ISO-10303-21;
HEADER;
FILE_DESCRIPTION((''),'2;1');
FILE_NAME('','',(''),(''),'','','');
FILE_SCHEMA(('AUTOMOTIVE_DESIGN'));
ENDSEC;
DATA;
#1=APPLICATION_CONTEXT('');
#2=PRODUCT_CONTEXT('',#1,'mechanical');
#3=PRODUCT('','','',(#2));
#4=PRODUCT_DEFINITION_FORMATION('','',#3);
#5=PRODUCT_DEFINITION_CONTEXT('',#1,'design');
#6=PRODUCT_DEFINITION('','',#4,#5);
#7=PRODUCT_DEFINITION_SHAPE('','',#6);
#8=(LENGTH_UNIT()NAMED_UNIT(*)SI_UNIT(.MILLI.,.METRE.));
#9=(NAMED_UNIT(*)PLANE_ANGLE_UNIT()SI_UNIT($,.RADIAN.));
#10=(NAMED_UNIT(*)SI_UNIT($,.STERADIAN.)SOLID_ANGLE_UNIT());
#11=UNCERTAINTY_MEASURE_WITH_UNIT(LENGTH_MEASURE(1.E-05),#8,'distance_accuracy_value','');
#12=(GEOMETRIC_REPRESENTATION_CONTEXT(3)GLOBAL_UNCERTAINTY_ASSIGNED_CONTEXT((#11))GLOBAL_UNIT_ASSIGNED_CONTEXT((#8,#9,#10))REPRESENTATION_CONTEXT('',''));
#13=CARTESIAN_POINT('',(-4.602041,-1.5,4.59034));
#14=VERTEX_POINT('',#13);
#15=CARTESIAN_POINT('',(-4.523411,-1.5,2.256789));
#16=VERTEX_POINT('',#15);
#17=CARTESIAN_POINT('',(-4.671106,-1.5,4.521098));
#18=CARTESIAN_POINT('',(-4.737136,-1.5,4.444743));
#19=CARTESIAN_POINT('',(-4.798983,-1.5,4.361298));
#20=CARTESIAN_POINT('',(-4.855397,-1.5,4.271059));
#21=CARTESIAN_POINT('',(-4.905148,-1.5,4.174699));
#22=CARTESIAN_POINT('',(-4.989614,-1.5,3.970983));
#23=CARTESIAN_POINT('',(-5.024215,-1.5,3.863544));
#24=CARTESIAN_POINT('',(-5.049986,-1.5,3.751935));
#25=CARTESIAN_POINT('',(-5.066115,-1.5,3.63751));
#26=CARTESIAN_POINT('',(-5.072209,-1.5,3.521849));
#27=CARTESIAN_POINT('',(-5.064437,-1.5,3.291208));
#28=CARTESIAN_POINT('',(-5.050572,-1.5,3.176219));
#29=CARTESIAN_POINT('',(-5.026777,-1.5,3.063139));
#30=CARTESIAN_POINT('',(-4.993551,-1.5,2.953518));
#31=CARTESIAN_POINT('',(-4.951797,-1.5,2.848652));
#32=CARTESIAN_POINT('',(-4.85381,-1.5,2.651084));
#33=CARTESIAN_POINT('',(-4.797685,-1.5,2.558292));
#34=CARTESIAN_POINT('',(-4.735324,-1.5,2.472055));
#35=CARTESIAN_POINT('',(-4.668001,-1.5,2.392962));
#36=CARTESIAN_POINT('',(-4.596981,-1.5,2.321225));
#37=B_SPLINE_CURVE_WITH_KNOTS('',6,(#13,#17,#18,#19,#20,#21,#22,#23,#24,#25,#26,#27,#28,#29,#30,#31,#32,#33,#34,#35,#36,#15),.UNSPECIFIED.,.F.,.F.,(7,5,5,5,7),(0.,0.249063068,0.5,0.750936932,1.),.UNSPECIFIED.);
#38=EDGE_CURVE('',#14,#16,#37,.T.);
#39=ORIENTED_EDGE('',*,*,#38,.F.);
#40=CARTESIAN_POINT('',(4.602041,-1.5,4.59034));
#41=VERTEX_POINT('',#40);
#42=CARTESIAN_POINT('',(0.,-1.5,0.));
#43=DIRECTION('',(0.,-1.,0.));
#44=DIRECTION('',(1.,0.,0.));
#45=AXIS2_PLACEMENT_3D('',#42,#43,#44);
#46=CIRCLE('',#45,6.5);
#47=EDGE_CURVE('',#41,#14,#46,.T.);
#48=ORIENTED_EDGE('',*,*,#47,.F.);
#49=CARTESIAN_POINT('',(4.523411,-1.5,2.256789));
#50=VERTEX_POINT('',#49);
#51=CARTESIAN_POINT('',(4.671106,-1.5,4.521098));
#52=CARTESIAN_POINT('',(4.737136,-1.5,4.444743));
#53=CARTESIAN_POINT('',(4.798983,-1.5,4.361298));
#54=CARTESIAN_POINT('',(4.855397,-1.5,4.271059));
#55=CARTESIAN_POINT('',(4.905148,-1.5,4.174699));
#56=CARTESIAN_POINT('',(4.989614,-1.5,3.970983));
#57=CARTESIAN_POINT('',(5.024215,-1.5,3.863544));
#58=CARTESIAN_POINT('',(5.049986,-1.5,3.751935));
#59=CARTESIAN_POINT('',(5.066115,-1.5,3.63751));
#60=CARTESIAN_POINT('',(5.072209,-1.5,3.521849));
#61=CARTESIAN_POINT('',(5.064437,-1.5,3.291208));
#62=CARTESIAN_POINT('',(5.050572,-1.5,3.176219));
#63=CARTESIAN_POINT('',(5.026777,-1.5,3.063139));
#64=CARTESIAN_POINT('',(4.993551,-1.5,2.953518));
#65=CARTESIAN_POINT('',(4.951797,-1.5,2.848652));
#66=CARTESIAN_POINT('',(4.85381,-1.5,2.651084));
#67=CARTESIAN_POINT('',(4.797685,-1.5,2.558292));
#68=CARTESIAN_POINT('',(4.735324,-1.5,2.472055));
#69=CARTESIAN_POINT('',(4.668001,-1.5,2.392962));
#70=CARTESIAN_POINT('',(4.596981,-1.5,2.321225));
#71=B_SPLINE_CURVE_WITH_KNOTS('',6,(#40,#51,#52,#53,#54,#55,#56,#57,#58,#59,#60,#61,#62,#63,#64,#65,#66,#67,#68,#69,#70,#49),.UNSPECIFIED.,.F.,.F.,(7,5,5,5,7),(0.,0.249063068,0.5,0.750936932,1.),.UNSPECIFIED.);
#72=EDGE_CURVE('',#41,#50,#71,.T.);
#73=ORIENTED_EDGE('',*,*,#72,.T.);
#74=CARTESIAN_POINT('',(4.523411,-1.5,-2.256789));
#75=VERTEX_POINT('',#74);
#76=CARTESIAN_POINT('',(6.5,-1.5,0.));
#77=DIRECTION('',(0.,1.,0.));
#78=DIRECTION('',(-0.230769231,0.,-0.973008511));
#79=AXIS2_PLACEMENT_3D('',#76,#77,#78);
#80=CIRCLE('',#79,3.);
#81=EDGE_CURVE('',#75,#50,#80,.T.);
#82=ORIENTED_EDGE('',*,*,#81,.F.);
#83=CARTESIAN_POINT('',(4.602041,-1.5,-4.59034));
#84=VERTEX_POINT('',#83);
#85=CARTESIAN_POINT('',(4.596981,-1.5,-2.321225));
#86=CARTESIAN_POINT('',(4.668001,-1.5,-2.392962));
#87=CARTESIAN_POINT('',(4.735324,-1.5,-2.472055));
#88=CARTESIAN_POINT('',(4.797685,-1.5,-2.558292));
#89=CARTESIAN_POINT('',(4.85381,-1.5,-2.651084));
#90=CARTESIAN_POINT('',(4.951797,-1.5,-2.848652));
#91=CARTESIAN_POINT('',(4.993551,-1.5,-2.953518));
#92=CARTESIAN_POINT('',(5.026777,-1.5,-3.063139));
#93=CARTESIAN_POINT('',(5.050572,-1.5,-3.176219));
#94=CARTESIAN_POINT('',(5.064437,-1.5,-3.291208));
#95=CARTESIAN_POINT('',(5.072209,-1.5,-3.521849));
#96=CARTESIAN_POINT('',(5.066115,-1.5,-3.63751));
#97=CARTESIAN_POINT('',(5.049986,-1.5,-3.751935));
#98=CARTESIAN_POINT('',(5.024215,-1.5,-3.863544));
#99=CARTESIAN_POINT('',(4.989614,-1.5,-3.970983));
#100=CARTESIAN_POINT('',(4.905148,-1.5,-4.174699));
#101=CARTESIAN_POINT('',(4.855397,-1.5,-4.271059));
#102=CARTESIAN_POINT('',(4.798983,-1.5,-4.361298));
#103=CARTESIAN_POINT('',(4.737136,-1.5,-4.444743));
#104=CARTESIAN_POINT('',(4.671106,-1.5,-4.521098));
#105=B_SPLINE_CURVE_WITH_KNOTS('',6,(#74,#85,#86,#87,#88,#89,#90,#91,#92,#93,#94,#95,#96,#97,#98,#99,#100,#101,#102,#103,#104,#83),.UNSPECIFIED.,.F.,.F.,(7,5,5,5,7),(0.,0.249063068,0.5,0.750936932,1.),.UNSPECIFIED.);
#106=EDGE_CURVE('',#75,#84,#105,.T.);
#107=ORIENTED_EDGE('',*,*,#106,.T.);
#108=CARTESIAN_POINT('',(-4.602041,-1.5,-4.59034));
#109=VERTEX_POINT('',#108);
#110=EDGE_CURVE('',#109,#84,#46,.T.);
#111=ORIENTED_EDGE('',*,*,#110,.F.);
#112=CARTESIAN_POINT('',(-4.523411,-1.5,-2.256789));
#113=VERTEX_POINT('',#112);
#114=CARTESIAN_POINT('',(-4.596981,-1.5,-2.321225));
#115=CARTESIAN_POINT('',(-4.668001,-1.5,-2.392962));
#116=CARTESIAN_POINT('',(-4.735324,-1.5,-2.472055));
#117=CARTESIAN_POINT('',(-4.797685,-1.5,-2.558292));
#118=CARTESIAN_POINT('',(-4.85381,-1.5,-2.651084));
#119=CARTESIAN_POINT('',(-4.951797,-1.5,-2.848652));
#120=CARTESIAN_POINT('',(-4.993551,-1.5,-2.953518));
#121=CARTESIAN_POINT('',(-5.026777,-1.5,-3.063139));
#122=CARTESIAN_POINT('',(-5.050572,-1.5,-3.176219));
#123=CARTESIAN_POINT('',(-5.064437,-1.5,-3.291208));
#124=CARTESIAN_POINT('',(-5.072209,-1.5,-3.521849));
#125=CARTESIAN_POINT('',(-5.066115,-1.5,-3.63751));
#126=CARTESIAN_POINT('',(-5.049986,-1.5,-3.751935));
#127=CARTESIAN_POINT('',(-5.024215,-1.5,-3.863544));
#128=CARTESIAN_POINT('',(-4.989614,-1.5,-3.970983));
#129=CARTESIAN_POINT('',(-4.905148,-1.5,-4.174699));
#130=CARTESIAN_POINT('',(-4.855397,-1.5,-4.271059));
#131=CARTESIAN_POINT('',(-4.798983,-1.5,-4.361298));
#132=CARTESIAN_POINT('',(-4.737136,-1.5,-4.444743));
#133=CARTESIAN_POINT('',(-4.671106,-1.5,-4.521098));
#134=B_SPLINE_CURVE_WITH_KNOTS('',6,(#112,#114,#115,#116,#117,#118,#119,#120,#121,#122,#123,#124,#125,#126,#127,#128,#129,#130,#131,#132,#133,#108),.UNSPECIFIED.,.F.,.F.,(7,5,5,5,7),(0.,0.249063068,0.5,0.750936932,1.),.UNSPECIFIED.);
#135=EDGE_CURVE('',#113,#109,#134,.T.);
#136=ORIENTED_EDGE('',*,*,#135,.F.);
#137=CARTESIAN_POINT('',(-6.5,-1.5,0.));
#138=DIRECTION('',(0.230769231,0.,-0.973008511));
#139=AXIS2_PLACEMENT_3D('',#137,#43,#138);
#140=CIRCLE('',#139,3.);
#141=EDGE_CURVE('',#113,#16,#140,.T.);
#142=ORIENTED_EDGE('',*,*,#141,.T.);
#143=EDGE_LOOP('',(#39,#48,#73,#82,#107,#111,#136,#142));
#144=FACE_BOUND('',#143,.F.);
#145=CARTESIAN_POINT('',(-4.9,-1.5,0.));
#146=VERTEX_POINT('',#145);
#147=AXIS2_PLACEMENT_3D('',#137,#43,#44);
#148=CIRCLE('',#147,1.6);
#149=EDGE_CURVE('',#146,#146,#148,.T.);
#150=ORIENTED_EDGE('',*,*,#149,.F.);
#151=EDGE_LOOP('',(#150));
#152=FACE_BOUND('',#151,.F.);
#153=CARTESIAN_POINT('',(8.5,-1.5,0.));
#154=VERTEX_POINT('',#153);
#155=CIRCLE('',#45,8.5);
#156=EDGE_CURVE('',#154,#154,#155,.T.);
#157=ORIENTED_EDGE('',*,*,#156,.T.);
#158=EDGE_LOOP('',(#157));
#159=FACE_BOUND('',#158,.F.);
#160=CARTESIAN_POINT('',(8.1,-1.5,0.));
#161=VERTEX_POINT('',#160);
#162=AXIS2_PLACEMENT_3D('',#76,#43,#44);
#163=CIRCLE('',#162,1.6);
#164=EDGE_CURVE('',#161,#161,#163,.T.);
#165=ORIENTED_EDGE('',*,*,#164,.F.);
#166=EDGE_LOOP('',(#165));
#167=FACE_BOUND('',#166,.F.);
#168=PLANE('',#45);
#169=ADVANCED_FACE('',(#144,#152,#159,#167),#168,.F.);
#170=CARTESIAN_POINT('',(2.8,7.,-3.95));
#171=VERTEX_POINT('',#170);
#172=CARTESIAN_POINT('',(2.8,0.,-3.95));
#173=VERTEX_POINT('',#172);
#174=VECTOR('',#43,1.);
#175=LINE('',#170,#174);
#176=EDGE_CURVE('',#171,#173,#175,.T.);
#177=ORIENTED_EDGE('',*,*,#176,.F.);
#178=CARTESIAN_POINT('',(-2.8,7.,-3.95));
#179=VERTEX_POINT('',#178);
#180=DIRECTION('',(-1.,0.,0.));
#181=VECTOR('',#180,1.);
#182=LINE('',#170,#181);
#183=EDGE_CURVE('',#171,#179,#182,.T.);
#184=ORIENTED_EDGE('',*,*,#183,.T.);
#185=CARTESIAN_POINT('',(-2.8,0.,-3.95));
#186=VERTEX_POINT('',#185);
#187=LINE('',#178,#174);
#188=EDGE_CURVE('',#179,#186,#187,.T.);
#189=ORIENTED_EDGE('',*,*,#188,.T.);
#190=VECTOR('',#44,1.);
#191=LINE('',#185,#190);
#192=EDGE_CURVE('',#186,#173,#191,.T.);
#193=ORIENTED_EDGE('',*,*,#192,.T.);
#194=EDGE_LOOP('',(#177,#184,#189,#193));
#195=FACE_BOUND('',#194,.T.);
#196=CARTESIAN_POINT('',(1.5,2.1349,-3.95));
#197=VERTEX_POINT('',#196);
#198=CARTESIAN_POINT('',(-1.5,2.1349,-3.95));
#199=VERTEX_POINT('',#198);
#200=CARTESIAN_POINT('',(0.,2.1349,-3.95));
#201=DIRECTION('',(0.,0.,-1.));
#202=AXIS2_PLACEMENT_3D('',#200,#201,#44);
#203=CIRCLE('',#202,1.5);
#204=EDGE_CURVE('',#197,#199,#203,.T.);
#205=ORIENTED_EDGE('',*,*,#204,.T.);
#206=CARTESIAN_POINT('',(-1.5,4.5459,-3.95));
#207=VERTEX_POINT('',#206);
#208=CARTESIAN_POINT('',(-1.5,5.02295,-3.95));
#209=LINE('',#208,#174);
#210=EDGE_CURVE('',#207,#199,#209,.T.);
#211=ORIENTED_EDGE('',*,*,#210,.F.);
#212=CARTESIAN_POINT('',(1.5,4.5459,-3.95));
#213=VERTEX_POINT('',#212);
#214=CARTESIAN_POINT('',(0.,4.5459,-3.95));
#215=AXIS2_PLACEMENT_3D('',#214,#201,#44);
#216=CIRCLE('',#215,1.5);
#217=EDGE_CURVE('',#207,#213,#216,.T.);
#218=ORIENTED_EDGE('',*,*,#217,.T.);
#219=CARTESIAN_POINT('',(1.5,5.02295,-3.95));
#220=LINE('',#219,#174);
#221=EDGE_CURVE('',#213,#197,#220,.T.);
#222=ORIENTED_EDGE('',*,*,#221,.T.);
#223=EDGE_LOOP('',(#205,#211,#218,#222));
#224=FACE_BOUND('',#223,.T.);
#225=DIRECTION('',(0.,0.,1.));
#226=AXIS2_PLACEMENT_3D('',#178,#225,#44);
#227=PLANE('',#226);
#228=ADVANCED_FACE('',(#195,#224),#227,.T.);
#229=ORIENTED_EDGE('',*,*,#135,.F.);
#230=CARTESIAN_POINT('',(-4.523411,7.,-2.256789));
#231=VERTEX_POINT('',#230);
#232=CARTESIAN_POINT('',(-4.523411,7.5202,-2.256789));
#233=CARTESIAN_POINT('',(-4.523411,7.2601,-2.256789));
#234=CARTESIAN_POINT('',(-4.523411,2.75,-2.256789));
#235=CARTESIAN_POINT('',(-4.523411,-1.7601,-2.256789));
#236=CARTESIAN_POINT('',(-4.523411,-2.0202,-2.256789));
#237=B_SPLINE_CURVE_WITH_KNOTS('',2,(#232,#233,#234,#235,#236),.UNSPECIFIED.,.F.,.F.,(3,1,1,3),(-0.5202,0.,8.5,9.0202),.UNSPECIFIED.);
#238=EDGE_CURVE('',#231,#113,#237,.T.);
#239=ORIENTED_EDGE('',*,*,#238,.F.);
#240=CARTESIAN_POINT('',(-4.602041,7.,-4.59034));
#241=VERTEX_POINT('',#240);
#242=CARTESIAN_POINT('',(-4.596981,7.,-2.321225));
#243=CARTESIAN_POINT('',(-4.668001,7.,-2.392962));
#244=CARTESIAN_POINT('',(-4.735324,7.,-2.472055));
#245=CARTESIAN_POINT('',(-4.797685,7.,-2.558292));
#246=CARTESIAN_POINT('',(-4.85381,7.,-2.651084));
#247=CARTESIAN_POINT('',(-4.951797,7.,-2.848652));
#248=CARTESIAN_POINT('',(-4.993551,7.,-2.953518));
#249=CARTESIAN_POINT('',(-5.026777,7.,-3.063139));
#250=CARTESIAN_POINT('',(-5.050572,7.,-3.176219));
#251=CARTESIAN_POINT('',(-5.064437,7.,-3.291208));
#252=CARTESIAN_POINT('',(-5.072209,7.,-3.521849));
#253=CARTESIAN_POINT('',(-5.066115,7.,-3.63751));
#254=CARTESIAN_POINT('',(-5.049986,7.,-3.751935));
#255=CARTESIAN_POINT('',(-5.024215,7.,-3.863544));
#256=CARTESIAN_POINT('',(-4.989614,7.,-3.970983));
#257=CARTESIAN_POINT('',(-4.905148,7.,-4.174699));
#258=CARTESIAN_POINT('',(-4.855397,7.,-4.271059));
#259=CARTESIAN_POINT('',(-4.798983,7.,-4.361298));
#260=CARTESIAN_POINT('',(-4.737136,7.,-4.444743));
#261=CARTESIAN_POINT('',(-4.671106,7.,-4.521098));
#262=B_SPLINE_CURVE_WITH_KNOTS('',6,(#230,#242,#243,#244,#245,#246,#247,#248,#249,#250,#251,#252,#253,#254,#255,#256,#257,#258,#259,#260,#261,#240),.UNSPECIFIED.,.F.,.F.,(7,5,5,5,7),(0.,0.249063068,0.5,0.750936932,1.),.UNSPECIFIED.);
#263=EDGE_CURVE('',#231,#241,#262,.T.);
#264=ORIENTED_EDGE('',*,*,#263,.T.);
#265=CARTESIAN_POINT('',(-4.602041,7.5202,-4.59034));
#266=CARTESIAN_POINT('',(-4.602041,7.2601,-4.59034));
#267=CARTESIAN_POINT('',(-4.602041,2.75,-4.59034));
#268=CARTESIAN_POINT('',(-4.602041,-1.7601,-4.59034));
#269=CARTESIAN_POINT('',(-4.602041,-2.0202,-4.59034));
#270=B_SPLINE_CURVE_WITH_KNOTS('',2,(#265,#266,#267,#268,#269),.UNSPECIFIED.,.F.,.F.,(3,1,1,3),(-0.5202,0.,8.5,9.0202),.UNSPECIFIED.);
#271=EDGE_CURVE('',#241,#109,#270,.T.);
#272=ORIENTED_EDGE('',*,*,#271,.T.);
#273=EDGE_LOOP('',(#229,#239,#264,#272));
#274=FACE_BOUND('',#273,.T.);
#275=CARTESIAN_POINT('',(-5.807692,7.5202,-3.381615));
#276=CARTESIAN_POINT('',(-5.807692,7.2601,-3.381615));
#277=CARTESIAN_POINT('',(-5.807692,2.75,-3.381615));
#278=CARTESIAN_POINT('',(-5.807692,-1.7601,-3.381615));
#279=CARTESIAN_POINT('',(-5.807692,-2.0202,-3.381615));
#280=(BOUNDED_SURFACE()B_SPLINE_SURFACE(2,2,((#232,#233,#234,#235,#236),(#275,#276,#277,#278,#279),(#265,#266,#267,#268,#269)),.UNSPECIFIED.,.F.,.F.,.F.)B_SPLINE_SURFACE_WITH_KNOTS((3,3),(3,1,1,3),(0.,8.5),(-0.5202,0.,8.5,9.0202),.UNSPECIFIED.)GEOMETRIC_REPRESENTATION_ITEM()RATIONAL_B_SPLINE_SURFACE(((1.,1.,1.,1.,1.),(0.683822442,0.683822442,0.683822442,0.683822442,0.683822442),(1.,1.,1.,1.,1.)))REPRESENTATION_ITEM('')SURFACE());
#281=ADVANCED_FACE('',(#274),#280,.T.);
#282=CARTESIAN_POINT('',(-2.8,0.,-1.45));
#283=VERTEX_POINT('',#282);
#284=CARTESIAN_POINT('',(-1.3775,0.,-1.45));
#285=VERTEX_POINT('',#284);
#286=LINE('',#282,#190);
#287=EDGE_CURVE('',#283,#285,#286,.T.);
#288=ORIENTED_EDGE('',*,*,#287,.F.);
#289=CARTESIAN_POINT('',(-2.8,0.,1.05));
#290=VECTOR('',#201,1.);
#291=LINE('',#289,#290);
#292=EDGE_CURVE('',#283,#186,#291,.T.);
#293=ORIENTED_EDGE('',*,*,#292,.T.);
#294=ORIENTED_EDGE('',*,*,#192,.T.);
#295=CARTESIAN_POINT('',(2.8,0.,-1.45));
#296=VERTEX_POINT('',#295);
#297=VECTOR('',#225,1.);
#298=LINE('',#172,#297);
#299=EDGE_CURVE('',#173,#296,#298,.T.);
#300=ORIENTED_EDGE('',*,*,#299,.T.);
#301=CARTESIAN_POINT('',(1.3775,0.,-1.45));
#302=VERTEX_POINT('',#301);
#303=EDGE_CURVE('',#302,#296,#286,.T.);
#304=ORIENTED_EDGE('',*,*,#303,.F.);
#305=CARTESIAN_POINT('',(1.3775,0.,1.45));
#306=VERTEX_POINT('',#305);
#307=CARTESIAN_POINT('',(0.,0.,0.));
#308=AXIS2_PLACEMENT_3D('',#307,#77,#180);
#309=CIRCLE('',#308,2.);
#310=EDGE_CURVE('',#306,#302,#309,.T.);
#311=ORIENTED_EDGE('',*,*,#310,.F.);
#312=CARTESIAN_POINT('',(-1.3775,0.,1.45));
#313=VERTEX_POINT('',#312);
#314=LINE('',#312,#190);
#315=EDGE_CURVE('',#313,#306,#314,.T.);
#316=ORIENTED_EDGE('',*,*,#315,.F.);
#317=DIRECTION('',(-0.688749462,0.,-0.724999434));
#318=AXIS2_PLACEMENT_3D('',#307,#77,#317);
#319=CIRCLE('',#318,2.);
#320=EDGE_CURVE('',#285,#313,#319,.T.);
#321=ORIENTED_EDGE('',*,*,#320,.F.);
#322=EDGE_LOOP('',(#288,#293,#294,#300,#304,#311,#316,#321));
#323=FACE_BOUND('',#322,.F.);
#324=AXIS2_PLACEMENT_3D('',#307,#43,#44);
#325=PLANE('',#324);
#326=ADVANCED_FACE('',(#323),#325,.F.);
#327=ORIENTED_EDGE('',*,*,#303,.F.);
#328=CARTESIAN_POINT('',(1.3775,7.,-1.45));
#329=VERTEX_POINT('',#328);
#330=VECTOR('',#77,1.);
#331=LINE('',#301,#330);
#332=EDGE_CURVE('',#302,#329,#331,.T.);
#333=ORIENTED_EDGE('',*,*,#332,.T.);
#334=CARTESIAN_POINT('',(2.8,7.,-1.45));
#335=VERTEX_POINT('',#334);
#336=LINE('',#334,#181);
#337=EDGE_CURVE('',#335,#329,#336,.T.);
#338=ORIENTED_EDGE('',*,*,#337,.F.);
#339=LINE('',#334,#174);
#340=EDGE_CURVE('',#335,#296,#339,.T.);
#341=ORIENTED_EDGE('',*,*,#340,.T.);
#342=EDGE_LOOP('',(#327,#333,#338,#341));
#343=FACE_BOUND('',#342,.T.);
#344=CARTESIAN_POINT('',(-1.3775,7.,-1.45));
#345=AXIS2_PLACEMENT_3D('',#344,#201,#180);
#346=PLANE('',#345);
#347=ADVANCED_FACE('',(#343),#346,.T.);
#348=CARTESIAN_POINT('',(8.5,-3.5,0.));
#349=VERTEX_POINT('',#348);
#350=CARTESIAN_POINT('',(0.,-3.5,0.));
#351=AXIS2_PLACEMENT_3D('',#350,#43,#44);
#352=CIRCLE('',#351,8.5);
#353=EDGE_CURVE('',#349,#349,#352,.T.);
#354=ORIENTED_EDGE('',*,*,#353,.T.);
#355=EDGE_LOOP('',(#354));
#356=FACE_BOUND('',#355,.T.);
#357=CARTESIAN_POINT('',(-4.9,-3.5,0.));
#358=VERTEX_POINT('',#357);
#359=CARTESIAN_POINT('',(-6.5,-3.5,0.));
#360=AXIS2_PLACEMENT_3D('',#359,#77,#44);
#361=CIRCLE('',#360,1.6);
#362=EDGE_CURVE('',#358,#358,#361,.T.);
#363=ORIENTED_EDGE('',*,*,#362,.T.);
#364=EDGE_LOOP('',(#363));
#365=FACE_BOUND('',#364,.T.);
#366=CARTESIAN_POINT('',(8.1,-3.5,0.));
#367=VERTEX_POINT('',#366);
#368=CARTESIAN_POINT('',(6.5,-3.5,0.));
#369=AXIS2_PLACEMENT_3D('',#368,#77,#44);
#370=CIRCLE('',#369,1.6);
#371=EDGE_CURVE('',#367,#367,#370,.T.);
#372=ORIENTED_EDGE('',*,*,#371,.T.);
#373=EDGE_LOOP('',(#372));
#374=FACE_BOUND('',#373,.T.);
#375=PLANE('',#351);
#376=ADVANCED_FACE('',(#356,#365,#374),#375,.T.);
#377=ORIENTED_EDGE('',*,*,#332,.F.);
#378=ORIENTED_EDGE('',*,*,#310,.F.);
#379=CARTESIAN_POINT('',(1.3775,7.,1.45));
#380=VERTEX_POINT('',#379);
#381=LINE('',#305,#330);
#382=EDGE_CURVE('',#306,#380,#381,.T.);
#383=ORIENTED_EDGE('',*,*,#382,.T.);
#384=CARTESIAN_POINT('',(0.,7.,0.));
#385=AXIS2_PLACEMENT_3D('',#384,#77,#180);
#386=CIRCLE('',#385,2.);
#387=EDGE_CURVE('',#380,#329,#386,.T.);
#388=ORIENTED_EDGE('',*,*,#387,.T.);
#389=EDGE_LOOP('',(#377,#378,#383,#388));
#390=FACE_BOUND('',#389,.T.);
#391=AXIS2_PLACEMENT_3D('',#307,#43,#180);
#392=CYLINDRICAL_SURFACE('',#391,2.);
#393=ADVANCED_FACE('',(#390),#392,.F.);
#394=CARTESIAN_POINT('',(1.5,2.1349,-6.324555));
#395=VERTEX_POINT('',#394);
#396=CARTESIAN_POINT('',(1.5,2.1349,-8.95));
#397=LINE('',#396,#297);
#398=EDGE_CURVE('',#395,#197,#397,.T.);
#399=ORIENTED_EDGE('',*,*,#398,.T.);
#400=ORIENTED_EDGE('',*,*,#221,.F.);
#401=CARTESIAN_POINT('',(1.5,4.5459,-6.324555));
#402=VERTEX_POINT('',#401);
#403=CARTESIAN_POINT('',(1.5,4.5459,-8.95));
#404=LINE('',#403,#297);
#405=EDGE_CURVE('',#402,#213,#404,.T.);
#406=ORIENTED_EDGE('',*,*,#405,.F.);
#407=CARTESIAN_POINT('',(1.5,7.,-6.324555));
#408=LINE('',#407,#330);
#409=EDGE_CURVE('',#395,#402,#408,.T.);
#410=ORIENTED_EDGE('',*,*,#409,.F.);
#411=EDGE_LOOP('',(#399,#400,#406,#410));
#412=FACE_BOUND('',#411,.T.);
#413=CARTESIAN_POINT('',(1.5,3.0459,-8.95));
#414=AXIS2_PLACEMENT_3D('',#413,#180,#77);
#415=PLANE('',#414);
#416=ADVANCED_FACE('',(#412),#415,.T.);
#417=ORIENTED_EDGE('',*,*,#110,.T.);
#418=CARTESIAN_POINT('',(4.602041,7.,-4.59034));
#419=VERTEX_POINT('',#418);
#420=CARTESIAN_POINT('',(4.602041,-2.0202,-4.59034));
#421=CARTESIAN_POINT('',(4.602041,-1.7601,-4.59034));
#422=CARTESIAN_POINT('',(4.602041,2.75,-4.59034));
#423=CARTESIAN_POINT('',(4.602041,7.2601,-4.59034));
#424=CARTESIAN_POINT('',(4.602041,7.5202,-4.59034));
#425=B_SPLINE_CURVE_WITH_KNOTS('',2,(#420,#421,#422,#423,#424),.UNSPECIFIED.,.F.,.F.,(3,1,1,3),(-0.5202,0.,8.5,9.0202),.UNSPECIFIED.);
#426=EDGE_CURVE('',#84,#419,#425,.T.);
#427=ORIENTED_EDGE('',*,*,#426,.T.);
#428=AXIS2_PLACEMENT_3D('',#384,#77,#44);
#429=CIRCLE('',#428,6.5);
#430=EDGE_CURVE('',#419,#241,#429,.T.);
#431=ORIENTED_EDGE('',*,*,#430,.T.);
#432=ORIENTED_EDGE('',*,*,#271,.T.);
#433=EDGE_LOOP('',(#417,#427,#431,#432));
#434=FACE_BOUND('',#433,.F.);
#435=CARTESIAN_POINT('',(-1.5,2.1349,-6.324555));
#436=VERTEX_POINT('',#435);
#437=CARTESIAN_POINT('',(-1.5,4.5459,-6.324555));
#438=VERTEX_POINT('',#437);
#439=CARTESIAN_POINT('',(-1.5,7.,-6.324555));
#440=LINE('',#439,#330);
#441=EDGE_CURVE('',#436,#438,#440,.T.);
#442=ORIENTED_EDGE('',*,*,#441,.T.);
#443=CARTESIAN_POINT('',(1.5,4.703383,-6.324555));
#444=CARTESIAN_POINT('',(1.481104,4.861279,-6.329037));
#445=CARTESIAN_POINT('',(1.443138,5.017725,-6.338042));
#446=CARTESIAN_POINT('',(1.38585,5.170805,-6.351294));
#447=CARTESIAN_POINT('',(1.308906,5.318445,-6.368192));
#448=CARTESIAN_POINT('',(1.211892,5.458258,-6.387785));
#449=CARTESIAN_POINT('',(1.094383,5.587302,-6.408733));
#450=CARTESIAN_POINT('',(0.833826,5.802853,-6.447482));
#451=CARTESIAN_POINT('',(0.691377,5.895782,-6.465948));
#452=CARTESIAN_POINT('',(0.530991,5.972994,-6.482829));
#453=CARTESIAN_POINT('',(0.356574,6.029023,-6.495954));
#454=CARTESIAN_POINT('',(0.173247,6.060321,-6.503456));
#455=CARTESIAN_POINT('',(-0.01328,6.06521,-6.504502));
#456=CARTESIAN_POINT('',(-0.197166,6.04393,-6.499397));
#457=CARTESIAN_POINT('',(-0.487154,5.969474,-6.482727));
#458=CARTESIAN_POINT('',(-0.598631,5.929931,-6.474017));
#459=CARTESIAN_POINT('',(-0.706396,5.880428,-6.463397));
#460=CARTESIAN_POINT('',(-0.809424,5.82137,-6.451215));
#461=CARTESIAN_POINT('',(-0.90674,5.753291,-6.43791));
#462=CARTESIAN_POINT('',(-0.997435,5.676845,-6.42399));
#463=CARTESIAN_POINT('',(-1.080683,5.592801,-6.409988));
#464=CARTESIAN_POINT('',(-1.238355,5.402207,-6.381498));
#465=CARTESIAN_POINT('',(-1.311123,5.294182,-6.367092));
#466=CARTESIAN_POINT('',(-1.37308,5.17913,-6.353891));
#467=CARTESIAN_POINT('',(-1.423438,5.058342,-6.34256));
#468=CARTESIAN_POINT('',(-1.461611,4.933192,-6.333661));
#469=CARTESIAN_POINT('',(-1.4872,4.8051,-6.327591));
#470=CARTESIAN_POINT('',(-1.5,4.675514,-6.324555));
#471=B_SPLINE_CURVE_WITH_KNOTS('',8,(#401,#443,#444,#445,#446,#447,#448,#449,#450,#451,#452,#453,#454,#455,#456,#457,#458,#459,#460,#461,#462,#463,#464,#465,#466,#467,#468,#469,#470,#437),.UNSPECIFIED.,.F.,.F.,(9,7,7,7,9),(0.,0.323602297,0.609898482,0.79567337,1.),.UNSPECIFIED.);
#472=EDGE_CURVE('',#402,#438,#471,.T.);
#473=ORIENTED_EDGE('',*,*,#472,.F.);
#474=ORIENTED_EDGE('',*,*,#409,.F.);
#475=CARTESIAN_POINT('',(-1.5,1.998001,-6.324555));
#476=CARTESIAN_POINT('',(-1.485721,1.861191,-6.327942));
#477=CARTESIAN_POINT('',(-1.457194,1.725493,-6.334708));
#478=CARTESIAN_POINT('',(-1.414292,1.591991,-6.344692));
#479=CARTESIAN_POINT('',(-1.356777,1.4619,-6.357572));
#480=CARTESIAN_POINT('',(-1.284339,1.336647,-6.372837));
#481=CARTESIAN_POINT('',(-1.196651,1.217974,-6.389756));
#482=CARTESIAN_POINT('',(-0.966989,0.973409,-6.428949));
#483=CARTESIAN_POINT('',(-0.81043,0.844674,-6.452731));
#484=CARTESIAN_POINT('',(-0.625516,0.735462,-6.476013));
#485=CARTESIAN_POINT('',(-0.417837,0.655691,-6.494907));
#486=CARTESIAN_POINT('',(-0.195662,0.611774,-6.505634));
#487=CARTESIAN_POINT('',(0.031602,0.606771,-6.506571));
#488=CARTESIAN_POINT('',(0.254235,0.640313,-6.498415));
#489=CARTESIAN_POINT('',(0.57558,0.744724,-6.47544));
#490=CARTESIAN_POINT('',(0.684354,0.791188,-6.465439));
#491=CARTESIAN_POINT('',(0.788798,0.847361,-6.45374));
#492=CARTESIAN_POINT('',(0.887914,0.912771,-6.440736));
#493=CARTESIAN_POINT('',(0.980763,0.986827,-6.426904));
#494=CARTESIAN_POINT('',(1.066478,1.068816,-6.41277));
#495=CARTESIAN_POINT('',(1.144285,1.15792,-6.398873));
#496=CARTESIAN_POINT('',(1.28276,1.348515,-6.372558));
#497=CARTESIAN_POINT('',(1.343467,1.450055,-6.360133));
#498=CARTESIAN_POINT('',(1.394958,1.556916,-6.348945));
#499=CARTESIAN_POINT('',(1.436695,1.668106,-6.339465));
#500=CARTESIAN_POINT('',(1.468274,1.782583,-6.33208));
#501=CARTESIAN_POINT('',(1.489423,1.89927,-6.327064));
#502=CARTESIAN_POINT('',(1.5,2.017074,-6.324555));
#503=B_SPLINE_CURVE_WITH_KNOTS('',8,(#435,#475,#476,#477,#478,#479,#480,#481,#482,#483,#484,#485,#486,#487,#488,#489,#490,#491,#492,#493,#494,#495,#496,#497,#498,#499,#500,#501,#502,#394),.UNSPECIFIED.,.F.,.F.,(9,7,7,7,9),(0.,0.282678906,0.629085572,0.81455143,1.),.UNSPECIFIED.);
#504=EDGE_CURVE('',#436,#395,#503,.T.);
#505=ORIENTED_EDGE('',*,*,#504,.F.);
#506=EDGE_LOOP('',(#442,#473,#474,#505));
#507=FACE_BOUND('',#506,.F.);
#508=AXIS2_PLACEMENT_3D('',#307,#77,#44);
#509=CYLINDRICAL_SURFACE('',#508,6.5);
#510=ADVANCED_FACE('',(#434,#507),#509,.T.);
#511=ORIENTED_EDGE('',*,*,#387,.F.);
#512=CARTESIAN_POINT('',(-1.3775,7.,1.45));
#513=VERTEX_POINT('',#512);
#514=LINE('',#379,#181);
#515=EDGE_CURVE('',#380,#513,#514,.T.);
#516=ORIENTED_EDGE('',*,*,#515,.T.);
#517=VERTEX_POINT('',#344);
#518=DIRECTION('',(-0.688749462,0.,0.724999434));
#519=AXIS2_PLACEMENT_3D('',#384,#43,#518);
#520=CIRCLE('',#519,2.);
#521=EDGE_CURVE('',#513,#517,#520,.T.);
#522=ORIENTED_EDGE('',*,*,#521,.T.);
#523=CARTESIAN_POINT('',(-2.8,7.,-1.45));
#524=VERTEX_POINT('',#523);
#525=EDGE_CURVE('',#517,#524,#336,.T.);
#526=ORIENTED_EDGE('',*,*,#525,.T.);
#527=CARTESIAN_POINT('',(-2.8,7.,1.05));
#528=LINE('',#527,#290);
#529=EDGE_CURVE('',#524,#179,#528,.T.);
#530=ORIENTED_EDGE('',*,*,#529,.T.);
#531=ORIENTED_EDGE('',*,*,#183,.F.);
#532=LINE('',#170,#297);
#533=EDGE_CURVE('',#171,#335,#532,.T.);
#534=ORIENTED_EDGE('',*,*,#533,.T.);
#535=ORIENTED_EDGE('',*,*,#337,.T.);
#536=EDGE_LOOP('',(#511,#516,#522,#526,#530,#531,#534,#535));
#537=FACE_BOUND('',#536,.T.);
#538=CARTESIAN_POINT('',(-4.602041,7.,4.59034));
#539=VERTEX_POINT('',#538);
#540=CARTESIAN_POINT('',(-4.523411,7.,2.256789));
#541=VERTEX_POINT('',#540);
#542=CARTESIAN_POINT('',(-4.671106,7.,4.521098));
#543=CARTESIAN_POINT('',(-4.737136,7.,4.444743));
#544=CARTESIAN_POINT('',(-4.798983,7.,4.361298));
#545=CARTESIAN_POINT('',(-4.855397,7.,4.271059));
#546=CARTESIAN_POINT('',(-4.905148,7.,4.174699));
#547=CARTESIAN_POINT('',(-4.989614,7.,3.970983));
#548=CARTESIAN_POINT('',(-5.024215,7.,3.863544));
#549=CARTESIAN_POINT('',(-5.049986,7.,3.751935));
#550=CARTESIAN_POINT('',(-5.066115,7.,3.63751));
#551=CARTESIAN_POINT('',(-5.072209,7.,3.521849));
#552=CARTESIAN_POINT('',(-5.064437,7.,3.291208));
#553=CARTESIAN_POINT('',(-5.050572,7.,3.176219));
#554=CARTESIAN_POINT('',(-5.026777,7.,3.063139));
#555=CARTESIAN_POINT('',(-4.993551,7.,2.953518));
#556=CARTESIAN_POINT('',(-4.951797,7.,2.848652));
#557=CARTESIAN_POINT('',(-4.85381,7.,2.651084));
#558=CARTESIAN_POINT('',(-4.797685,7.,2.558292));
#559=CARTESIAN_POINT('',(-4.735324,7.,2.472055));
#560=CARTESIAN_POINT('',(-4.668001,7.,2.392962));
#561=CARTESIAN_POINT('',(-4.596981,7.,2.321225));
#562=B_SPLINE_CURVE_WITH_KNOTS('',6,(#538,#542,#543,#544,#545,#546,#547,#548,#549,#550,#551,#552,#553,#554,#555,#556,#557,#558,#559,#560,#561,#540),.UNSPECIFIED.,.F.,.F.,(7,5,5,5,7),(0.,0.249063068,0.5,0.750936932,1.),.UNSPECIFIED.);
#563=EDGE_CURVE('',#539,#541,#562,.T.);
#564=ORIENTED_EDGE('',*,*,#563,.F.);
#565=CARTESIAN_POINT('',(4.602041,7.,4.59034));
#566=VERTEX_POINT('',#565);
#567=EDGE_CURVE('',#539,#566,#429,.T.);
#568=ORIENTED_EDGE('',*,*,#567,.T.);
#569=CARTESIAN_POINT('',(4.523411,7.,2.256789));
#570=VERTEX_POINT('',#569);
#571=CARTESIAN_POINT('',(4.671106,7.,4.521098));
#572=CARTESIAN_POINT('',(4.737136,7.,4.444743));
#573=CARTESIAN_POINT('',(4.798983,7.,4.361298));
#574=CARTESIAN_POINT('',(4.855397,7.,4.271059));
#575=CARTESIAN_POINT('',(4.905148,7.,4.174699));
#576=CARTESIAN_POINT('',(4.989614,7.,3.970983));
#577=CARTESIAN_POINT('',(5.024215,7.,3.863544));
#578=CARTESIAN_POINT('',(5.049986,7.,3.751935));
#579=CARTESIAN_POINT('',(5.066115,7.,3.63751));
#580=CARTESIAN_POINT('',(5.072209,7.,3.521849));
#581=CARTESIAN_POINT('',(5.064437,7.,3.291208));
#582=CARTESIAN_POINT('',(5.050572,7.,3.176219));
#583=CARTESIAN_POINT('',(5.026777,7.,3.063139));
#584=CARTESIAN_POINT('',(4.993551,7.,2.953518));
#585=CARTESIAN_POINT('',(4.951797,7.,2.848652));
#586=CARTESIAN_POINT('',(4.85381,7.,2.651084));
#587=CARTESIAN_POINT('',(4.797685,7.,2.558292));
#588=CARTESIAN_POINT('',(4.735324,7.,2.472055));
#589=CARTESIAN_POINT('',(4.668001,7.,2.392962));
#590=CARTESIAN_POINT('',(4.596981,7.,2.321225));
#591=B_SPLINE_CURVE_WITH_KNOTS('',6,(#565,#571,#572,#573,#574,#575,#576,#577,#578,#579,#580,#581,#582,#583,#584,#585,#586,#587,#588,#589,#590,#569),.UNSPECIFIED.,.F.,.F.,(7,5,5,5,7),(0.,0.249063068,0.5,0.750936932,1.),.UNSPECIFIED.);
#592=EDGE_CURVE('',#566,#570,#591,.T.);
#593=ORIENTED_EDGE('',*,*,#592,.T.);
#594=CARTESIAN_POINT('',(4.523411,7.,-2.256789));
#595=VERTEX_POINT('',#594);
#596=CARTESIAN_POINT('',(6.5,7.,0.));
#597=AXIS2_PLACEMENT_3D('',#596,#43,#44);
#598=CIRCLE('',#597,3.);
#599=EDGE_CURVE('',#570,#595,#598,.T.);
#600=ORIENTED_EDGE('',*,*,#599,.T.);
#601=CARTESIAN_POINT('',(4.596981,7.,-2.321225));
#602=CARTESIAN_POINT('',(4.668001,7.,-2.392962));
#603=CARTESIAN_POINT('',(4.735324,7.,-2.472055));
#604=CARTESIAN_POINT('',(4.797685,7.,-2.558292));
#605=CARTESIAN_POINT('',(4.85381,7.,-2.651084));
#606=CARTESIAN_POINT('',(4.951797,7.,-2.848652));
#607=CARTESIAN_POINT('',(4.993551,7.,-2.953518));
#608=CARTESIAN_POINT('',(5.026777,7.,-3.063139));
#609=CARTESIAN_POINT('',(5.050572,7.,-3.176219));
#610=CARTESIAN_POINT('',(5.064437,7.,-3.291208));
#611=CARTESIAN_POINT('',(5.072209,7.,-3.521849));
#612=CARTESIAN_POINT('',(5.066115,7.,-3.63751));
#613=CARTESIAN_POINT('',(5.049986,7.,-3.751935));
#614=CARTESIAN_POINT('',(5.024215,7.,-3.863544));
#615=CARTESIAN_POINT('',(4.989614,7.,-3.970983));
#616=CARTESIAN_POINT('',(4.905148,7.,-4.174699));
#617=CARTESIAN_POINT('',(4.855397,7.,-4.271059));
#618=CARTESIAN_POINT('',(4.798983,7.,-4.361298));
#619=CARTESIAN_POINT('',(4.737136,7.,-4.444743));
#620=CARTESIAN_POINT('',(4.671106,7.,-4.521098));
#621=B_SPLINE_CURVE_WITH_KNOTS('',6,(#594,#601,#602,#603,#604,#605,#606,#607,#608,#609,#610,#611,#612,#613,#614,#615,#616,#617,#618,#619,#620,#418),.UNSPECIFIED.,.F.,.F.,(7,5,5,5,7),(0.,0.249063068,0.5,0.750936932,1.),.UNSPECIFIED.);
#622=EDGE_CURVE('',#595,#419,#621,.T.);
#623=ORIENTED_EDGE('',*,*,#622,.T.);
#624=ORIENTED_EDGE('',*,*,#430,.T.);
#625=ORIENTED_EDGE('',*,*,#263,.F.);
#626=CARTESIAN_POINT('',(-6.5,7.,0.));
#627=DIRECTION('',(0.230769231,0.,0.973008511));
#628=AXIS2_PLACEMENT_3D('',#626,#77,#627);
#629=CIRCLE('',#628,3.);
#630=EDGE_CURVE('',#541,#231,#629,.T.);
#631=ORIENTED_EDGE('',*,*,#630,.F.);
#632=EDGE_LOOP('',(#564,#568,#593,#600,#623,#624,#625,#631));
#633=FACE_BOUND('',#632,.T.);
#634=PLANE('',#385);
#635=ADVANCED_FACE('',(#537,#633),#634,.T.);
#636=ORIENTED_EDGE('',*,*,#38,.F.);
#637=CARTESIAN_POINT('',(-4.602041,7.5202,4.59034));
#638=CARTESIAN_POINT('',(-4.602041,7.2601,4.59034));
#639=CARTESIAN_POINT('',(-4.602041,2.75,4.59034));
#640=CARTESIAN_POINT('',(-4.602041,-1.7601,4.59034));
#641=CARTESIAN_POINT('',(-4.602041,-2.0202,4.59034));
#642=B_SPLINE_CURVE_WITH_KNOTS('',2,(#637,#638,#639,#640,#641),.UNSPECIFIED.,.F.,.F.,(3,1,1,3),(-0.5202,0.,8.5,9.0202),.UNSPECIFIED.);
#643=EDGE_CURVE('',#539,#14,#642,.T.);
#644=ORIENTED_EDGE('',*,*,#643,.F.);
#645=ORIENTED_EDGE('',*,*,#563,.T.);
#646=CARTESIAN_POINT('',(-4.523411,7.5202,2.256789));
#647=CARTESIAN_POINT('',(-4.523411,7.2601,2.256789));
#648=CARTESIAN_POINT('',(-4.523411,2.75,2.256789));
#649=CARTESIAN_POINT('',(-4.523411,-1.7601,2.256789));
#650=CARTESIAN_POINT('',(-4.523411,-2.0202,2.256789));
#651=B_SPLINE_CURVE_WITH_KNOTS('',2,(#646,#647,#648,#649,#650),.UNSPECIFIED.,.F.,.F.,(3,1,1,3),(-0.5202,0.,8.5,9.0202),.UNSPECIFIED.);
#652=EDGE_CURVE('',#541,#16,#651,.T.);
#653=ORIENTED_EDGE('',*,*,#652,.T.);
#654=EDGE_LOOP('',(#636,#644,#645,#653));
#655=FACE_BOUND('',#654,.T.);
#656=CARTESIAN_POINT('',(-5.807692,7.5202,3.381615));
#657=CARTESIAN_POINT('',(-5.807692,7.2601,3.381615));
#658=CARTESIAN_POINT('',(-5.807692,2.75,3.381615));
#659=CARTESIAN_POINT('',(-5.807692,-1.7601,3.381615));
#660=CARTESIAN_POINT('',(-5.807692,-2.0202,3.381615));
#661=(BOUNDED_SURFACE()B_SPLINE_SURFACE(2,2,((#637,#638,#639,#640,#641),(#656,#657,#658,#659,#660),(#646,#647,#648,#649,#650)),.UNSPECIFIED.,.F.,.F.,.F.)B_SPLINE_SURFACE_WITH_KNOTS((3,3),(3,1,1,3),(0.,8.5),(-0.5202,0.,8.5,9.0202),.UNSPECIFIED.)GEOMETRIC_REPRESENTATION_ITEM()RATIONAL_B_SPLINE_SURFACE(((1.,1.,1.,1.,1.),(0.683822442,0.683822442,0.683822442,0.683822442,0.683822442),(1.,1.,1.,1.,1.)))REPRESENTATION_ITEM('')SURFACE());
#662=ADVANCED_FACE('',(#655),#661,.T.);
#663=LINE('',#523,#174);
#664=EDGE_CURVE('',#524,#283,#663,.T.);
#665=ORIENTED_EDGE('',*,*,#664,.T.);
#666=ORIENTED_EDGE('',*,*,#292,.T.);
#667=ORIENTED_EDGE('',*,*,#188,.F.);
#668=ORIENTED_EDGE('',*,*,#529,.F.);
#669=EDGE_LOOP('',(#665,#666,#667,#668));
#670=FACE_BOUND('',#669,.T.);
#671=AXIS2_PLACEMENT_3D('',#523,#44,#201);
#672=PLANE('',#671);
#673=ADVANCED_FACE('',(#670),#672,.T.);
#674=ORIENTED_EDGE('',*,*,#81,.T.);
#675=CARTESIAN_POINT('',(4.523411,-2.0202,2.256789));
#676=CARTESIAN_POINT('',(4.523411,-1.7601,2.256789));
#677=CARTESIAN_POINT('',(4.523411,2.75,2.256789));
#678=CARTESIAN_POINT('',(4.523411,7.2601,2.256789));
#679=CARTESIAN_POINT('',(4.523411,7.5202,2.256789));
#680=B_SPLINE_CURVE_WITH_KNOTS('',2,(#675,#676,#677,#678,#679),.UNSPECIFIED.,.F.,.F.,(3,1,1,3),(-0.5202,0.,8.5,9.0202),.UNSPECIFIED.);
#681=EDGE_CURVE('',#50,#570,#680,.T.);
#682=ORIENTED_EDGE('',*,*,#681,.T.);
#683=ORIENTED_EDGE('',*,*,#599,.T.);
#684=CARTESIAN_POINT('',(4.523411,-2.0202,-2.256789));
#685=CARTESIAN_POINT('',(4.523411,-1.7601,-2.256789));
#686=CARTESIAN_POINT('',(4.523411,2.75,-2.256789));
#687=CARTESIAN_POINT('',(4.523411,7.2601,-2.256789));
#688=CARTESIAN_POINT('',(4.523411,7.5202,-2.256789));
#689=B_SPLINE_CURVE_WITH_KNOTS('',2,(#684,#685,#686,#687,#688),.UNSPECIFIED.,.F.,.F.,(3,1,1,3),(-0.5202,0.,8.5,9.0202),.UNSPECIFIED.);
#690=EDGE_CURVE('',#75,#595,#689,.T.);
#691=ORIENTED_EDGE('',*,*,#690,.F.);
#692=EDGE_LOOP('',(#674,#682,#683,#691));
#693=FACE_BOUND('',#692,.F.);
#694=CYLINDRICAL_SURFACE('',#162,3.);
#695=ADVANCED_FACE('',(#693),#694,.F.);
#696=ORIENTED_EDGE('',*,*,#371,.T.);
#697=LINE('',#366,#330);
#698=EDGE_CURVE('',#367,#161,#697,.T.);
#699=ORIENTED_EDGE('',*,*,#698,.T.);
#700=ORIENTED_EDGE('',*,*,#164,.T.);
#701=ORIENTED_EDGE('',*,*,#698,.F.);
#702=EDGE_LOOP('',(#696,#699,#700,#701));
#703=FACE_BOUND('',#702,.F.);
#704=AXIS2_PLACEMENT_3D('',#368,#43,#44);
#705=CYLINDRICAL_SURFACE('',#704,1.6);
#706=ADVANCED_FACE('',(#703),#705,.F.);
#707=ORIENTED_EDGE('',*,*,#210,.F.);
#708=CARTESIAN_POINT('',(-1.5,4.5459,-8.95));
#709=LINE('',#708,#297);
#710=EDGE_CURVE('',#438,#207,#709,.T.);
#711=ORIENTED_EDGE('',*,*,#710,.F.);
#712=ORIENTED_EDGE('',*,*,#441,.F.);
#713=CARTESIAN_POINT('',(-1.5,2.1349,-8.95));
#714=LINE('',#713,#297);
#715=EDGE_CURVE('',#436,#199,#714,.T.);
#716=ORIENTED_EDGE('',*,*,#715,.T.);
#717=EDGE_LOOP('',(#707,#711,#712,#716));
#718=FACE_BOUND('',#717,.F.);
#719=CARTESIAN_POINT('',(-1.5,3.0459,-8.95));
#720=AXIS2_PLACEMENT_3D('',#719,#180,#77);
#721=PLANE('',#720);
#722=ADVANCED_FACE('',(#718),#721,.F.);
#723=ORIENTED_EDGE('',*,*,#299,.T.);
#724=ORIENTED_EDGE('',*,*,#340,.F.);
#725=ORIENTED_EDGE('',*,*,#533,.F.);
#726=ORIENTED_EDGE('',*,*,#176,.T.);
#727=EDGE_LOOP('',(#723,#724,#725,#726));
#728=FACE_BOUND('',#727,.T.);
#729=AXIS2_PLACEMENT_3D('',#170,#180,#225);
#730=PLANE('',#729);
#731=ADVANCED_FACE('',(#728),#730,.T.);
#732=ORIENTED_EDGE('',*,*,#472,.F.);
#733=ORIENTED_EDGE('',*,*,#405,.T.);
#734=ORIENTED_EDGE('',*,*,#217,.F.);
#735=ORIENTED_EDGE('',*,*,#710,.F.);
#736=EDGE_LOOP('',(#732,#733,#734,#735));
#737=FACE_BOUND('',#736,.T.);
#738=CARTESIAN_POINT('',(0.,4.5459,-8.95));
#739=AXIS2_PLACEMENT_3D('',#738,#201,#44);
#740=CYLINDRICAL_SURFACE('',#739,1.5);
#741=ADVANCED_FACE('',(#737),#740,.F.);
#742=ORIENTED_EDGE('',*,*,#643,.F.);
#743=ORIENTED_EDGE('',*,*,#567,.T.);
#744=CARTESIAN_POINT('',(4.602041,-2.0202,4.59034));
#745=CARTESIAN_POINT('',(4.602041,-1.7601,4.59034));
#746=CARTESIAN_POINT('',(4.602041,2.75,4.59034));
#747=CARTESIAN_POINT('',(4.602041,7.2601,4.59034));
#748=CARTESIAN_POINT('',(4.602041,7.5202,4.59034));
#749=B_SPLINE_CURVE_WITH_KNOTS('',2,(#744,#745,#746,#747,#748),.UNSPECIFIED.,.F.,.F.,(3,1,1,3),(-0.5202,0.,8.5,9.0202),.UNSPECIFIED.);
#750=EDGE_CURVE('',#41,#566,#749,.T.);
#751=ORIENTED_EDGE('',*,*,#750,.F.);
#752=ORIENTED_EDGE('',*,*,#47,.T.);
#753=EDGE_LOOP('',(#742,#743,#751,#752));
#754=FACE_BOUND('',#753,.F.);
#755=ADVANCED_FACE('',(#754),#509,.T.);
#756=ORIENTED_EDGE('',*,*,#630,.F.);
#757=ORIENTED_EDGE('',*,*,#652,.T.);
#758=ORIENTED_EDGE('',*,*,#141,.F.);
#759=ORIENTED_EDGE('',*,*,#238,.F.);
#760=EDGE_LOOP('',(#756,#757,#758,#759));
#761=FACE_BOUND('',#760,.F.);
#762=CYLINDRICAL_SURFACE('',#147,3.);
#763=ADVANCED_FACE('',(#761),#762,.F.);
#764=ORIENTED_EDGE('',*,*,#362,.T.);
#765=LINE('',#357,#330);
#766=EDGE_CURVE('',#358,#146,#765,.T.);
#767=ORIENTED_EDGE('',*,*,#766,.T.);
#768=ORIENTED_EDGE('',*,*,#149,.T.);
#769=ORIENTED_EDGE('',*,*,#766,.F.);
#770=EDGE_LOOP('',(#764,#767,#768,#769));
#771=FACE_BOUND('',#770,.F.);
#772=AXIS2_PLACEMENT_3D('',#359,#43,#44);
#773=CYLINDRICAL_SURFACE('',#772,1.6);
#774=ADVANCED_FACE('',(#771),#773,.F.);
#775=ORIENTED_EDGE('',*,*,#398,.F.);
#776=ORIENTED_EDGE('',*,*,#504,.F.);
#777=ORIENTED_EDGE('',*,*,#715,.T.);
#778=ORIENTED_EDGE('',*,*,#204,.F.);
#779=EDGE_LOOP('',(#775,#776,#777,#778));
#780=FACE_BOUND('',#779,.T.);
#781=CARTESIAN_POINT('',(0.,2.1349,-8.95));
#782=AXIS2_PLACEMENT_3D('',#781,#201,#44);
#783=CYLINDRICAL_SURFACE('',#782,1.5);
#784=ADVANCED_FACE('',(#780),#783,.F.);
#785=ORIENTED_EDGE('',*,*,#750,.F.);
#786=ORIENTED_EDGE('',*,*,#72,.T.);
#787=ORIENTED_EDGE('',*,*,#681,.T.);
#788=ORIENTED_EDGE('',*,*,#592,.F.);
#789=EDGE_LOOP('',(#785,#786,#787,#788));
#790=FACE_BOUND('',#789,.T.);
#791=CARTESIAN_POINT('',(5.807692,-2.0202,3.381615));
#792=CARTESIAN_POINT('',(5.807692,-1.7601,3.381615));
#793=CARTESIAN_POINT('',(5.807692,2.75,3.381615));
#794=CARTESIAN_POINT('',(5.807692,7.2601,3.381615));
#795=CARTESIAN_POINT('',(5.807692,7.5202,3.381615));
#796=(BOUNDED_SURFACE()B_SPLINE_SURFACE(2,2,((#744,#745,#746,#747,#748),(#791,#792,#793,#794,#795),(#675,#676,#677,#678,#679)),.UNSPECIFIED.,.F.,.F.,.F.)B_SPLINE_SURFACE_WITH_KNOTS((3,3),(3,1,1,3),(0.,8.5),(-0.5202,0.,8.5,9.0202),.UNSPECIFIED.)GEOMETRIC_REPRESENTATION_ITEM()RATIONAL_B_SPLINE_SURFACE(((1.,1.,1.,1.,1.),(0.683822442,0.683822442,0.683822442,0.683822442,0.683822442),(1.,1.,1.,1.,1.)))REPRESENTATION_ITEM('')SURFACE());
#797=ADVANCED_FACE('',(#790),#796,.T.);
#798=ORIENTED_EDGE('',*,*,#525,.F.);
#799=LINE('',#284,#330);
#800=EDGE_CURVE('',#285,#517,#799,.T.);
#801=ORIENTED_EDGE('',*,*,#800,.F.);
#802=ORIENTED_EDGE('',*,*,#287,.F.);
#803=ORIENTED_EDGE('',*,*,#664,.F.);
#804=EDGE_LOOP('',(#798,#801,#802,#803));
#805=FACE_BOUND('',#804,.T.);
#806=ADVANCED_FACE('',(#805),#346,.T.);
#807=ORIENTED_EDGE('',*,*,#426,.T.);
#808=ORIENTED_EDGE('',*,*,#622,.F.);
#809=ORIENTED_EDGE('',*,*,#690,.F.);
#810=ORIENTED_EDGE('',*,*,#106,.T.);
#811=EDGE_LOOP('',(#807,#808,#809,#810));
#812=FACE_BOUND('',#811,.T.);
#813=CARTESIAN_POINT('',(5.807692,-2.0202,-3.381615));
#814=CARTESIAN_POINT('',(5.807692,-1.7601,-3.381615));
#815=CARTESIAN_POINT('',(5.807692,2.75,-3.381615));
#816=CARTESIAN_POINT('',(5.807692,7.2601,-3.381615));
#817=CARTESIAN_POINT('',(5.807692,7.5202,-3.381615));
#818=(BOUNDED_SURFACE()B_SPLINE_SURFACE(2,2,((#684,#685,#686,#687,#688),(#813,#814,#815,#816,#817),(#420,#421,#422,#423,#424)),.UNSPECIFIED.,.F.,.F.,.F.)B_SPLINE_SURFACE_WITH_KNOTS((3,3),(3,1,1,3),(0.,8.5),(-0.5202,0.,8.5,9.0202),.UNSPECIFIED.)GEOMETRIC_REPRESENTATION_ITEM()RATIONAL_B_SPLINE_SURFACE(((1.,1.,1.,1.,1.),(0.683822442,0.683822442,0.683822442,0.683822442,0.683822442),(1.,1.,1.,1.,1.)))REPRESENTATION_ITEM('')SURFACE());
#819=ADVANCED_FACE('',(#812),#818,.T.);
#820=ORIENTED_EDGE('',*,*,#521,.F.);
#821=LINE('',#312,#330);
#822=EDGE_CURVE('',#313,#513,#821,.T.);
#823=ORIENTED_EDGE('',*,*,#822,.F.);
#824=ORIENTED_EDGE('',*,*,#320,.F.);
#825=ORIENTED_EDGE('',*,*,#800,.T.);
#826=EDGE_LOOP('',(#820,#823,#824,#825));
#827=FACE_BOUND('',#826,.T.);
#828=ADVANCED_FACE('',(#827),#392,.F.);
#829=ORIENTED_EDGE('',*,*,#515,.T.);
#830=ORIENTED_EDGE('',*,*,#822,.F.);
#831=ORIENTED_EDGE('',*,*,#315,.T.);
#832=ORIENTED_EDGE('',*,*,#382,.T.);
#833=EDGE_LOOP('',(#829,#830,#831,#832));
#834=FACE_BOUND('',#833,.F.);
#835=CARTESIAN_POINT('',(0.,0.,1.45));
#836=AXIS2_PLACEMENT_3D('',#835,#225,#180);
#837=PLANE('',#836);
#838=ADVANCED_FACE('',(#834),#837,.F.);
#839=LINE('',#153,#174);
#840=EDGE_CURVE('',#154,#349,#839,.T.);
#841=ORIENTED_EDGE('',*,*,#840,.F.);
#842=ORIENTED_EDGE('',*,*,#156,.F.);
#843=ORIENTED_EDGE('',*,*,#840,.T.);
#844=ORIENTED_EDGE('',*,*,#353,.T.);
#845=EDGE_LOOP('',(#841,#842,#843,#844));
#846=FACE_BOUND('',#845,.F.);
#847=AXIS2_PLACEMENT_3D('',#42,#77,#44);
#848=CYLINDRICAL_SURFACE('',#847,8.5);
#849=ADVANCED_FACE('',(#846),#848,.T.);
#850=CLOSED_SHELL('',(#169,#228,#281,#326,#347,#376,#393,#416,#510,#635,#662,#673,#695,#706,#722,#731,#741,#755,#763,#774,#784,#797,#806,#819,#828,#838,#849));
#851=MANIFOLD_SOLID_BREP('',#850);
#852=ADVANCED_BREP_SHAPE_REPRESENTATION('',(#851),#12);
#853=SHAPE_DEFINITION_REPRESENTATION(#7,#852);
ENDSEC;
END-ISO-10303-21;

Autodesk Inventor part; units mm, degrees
ref_plane "YZ Plane" through (0, 0, 0) normal (1, 0, 0) x (0, 1, 0)
ref_plane "XZ Plane" through (0, 0, 0) normal (0, 1, 0) x (-1, 0, 0)
sketch "Sketch1" plane through (0, 0, 0) normal (0, 1, 0) x (-1, 0, 0)
  circle A0 centre (0, 0) radius 4.5
  circle A1 centre (0, 0) radius 2
  circle A2 centre (0, 0) radius 1.45
  line L0 (0, -1.45) -> (1.3775, -1.45)
  line L1 (0, -1.45) -> (-1.3775, -1.45)
  line L2 (0, 1.45) -> (-1.3775, 1.45)
  line L3 (0, 1.45) -> (1.3775, 1.45)
  dimension "d0" = 9
  dimension "d1" = 4
  dimension "d2" = 2.9
extrude "Extrusion1" add sketch "Sketch1" along normal blind 7 contours A0 | L3 L2 A1 | A1 L1 L0
sketch "Sketch2" plane through (0, 7, 0) normal (0, 1, 0) x (1, 0, 0)
  line L0 (-1.3775, 1.45) -> (1.3775, 1.45) projected
  line L1 (0, 1.45) -> (0, 3.85)
  line L2 (1.3775, -0.95) -> (-1.3775, -0.95)
  line L3 (-1.3775, -0.95) -> (-1.3775, 3.85)
  line L4 (-1.3775, 3.85) -> (1.3775, 3.85)
  line L5 (1.3775, 3.85) -> (1.3775, -0.95)
  line L6 (1.3775, -0.95) -> (-1.3775, 3.85) construction
  line L7 (-1.3775, -0.95) -> (1.3775, 3.85) construction
  line L8 (2.75, -0.95) -> (-2.75, -0.95)
  line L9 (-2.75, -0.95) -> (-2.75, 3.85)
  line L10 (-2.75, 3.85) -> (2.75, 3.85)
  line L11 (2.75, 3.85) -> (2.75, -0.95)
  line L12 (2.75, -0.95) -> (-2.75, 3.85) construction
  line L13 (-2.75, -0.95) -> (2.75, 3.85) construction
  circle A0 centre (0, 0) radius 6.5
  circle A1 centre (0, 0) radius 4.5
  dimension "d5" = 2.4
  dimension "d6" = 5.5
  dimension "d7" = 13
extrude "Extrusion2" add sketch "Sketch2" against normal blind 7 contours A1 L9 L10 | L10 L11 A1 | A0
sketch "Sketch3" plane through (0, 7, 0) normal (0, 1, 0) x (1, 0, 0)
  line L0 (-1.3775, 1.45) -> (1.3775, 1.45) projected
  line L1 (0, 1.45) -> (0, 3.95)
  line L2 (2.8, -1.05) -> (-2.8, -1.05)
  line L3 (-2.8, -1.05) -> (-2.8, 3.95)
  line L4 (-2.8, 3.95) -> (2.8, 3.95)
  line L5 (2.8, 3.95) -> (2.8, -1.05)
  line L6 (2.8, -1.05) -> (-2.8, 3.95) construction
  line L7 (-2.8, -1.05) -> (2.8, 3.95) construction
  line L8 (0, 1.45) -> (-2.8, 1.45)
  line L9 (0, 1.45) -> (2.8, 1.45)
  point P0 (0, 0)
  dimension "d10" = 2.5
  dimension "d11" = 5.6
extrude "Extrusion3" cut sketch "Sketch3" against normal blind 7 contours L8 L3 L4 L1 L0 | L1 L4 L5 L9 L0
ref_plane "Work Plane1" through (-2.8, 7, -8.95) normal (0, 0, 1) x (1, 0, 0)
sketch "Sketch5" plane through (-2.8, 7, -8.95) normal (0, 0, 1) x (1, 0, 0)
  circle A0 centre (2.8, -2.4541) radius 1.5
  line L0 (2.8, -2.4541) -> (2.8, -7)
  circle A1 centre (2.8, -3.9541) radius 1.5
  circle A2 centre (2.8, -4.8651) radius 1.5
  line L1 (1.3, -4.8651) -> (1.3, -2.4541)
  line L2 (4.3, -4.8651) -> (4.3, -2.4541)
  point P0 (4.3, -4.8651)
  dimension "d17" = 3
  dimension "d15" = 3
  dimension "d16" = 3
extrude "Extrusion4" cut sketch "Sketch5" along normal blind 6
sketch "Sketch6" plane through (0, 0, 0) normal (0, -1, 0) x (1, 0, 0)
  circle A0 centre (0, 0) radius 6.5
extrude "Extrusion5" add sketch "Sketch6" along normal blind 1.5
sketch "Sketch7" plane through (0, -1.5, 0) normal (0, -1, 0) x (1, 0, 0)
  line L0 (-3.5, -3.5) -> (3.5, -3.5)
  line L1 (3.5, -3.5) -> (3.5, 3.5)
  line L2 (3.5, 3.5) -> (-3.5, 3.5)
  line L3 (-3.5, 3.5) -> (-3.5, -3.5)
  line L4 (-3.5, -3.5) -> (3.5, 3.5) construction
  line L5 (3.5, -3.5) -> (-3.5, 3.5) construction
  point P0 (0, 0)
  dimension "d22" = 7
  dimension "d23" = 7
extrude "Extrusion6" add sketch "Sketch7" along normal blind 6
sketch "Sketch8" plane through (0, -1.5, 0) normal (0, -1, 0) x (1, 0, 0)
  arc A0 (-1.3775, 1.45) -> (-1.3775, -1.45) centre (0, 0) ccw projected
  circle A1 centre (0, 0) radius 8.6758
extrude "Extrusion7" cut sketch "Sketch8" along normal blind 10
sketch "Sketch9" plane through (0, -1.5, 0) normal (0, -1, 0) x (1, 0, 0)
  point P0 (0, 0)
sketch "Sketch10" plane through (0, -1.5, 0) normal (0, -1, 0) x (1, 0, 0)
  circle A0 centre (0, 0) radius 6.5
  circle A1 centre (6.5, 0) radius 3
  circle A2 centre (-6.5, 0) radius 3
  dimension "d28" = 13
  dimension "d29" = 6
  dimension "d30" = 6
extrude "Extrusion8" cut sketch "Sketch10" against normal through all contours A0 A1 | A0 A1 | A2 A0 | A0 A2
sketch "Sketch11" plane through (0, -1.5, 0) normal (0, -1, 0) x (1, 0, 0)
  circle A0 centre (0, 0) radius 8.5
  dimension "d33" = 17
extrude "Extrusion9" add sketch "Sketch11" along normal blind 2
sketch "Sketch12" plane through (0, -3.5, 0) normal (0, -1, 0) x (1, 0, 0)
  arc A0 (1.3775, -1.45) -> (1.3775, 1.45) centre (0, 0) ccw projected
  circle A1 centre (0, 0) radius 6.5
  arc A2 (-5.8077, -2.919) -> (-5.8077, 2.919) centre (-6.5, 0) ccw projected
  circle A3 centre (-6.5, 0) radius 1.6
  circle A4 centre (6.5, 0) radius 1.6
  dimension "d36" = 13
  dimension "d37" = 3.2
  dimension "d38" = 3.2
extrude "Extrusion10" cut sketch "Sketch12" against normal through all contours A1 A4 | A1 A4 | A3 A1 | A1 A3
fillet "Fillet1" radius 1.6 4 edges at (5.8077, 2.75, 2.919) (5.8077, 2.75, -2.919) (-5.8077, 2.75, 2.919) (-5.8077, 2.75, -2.919)
properties part number "acople"
